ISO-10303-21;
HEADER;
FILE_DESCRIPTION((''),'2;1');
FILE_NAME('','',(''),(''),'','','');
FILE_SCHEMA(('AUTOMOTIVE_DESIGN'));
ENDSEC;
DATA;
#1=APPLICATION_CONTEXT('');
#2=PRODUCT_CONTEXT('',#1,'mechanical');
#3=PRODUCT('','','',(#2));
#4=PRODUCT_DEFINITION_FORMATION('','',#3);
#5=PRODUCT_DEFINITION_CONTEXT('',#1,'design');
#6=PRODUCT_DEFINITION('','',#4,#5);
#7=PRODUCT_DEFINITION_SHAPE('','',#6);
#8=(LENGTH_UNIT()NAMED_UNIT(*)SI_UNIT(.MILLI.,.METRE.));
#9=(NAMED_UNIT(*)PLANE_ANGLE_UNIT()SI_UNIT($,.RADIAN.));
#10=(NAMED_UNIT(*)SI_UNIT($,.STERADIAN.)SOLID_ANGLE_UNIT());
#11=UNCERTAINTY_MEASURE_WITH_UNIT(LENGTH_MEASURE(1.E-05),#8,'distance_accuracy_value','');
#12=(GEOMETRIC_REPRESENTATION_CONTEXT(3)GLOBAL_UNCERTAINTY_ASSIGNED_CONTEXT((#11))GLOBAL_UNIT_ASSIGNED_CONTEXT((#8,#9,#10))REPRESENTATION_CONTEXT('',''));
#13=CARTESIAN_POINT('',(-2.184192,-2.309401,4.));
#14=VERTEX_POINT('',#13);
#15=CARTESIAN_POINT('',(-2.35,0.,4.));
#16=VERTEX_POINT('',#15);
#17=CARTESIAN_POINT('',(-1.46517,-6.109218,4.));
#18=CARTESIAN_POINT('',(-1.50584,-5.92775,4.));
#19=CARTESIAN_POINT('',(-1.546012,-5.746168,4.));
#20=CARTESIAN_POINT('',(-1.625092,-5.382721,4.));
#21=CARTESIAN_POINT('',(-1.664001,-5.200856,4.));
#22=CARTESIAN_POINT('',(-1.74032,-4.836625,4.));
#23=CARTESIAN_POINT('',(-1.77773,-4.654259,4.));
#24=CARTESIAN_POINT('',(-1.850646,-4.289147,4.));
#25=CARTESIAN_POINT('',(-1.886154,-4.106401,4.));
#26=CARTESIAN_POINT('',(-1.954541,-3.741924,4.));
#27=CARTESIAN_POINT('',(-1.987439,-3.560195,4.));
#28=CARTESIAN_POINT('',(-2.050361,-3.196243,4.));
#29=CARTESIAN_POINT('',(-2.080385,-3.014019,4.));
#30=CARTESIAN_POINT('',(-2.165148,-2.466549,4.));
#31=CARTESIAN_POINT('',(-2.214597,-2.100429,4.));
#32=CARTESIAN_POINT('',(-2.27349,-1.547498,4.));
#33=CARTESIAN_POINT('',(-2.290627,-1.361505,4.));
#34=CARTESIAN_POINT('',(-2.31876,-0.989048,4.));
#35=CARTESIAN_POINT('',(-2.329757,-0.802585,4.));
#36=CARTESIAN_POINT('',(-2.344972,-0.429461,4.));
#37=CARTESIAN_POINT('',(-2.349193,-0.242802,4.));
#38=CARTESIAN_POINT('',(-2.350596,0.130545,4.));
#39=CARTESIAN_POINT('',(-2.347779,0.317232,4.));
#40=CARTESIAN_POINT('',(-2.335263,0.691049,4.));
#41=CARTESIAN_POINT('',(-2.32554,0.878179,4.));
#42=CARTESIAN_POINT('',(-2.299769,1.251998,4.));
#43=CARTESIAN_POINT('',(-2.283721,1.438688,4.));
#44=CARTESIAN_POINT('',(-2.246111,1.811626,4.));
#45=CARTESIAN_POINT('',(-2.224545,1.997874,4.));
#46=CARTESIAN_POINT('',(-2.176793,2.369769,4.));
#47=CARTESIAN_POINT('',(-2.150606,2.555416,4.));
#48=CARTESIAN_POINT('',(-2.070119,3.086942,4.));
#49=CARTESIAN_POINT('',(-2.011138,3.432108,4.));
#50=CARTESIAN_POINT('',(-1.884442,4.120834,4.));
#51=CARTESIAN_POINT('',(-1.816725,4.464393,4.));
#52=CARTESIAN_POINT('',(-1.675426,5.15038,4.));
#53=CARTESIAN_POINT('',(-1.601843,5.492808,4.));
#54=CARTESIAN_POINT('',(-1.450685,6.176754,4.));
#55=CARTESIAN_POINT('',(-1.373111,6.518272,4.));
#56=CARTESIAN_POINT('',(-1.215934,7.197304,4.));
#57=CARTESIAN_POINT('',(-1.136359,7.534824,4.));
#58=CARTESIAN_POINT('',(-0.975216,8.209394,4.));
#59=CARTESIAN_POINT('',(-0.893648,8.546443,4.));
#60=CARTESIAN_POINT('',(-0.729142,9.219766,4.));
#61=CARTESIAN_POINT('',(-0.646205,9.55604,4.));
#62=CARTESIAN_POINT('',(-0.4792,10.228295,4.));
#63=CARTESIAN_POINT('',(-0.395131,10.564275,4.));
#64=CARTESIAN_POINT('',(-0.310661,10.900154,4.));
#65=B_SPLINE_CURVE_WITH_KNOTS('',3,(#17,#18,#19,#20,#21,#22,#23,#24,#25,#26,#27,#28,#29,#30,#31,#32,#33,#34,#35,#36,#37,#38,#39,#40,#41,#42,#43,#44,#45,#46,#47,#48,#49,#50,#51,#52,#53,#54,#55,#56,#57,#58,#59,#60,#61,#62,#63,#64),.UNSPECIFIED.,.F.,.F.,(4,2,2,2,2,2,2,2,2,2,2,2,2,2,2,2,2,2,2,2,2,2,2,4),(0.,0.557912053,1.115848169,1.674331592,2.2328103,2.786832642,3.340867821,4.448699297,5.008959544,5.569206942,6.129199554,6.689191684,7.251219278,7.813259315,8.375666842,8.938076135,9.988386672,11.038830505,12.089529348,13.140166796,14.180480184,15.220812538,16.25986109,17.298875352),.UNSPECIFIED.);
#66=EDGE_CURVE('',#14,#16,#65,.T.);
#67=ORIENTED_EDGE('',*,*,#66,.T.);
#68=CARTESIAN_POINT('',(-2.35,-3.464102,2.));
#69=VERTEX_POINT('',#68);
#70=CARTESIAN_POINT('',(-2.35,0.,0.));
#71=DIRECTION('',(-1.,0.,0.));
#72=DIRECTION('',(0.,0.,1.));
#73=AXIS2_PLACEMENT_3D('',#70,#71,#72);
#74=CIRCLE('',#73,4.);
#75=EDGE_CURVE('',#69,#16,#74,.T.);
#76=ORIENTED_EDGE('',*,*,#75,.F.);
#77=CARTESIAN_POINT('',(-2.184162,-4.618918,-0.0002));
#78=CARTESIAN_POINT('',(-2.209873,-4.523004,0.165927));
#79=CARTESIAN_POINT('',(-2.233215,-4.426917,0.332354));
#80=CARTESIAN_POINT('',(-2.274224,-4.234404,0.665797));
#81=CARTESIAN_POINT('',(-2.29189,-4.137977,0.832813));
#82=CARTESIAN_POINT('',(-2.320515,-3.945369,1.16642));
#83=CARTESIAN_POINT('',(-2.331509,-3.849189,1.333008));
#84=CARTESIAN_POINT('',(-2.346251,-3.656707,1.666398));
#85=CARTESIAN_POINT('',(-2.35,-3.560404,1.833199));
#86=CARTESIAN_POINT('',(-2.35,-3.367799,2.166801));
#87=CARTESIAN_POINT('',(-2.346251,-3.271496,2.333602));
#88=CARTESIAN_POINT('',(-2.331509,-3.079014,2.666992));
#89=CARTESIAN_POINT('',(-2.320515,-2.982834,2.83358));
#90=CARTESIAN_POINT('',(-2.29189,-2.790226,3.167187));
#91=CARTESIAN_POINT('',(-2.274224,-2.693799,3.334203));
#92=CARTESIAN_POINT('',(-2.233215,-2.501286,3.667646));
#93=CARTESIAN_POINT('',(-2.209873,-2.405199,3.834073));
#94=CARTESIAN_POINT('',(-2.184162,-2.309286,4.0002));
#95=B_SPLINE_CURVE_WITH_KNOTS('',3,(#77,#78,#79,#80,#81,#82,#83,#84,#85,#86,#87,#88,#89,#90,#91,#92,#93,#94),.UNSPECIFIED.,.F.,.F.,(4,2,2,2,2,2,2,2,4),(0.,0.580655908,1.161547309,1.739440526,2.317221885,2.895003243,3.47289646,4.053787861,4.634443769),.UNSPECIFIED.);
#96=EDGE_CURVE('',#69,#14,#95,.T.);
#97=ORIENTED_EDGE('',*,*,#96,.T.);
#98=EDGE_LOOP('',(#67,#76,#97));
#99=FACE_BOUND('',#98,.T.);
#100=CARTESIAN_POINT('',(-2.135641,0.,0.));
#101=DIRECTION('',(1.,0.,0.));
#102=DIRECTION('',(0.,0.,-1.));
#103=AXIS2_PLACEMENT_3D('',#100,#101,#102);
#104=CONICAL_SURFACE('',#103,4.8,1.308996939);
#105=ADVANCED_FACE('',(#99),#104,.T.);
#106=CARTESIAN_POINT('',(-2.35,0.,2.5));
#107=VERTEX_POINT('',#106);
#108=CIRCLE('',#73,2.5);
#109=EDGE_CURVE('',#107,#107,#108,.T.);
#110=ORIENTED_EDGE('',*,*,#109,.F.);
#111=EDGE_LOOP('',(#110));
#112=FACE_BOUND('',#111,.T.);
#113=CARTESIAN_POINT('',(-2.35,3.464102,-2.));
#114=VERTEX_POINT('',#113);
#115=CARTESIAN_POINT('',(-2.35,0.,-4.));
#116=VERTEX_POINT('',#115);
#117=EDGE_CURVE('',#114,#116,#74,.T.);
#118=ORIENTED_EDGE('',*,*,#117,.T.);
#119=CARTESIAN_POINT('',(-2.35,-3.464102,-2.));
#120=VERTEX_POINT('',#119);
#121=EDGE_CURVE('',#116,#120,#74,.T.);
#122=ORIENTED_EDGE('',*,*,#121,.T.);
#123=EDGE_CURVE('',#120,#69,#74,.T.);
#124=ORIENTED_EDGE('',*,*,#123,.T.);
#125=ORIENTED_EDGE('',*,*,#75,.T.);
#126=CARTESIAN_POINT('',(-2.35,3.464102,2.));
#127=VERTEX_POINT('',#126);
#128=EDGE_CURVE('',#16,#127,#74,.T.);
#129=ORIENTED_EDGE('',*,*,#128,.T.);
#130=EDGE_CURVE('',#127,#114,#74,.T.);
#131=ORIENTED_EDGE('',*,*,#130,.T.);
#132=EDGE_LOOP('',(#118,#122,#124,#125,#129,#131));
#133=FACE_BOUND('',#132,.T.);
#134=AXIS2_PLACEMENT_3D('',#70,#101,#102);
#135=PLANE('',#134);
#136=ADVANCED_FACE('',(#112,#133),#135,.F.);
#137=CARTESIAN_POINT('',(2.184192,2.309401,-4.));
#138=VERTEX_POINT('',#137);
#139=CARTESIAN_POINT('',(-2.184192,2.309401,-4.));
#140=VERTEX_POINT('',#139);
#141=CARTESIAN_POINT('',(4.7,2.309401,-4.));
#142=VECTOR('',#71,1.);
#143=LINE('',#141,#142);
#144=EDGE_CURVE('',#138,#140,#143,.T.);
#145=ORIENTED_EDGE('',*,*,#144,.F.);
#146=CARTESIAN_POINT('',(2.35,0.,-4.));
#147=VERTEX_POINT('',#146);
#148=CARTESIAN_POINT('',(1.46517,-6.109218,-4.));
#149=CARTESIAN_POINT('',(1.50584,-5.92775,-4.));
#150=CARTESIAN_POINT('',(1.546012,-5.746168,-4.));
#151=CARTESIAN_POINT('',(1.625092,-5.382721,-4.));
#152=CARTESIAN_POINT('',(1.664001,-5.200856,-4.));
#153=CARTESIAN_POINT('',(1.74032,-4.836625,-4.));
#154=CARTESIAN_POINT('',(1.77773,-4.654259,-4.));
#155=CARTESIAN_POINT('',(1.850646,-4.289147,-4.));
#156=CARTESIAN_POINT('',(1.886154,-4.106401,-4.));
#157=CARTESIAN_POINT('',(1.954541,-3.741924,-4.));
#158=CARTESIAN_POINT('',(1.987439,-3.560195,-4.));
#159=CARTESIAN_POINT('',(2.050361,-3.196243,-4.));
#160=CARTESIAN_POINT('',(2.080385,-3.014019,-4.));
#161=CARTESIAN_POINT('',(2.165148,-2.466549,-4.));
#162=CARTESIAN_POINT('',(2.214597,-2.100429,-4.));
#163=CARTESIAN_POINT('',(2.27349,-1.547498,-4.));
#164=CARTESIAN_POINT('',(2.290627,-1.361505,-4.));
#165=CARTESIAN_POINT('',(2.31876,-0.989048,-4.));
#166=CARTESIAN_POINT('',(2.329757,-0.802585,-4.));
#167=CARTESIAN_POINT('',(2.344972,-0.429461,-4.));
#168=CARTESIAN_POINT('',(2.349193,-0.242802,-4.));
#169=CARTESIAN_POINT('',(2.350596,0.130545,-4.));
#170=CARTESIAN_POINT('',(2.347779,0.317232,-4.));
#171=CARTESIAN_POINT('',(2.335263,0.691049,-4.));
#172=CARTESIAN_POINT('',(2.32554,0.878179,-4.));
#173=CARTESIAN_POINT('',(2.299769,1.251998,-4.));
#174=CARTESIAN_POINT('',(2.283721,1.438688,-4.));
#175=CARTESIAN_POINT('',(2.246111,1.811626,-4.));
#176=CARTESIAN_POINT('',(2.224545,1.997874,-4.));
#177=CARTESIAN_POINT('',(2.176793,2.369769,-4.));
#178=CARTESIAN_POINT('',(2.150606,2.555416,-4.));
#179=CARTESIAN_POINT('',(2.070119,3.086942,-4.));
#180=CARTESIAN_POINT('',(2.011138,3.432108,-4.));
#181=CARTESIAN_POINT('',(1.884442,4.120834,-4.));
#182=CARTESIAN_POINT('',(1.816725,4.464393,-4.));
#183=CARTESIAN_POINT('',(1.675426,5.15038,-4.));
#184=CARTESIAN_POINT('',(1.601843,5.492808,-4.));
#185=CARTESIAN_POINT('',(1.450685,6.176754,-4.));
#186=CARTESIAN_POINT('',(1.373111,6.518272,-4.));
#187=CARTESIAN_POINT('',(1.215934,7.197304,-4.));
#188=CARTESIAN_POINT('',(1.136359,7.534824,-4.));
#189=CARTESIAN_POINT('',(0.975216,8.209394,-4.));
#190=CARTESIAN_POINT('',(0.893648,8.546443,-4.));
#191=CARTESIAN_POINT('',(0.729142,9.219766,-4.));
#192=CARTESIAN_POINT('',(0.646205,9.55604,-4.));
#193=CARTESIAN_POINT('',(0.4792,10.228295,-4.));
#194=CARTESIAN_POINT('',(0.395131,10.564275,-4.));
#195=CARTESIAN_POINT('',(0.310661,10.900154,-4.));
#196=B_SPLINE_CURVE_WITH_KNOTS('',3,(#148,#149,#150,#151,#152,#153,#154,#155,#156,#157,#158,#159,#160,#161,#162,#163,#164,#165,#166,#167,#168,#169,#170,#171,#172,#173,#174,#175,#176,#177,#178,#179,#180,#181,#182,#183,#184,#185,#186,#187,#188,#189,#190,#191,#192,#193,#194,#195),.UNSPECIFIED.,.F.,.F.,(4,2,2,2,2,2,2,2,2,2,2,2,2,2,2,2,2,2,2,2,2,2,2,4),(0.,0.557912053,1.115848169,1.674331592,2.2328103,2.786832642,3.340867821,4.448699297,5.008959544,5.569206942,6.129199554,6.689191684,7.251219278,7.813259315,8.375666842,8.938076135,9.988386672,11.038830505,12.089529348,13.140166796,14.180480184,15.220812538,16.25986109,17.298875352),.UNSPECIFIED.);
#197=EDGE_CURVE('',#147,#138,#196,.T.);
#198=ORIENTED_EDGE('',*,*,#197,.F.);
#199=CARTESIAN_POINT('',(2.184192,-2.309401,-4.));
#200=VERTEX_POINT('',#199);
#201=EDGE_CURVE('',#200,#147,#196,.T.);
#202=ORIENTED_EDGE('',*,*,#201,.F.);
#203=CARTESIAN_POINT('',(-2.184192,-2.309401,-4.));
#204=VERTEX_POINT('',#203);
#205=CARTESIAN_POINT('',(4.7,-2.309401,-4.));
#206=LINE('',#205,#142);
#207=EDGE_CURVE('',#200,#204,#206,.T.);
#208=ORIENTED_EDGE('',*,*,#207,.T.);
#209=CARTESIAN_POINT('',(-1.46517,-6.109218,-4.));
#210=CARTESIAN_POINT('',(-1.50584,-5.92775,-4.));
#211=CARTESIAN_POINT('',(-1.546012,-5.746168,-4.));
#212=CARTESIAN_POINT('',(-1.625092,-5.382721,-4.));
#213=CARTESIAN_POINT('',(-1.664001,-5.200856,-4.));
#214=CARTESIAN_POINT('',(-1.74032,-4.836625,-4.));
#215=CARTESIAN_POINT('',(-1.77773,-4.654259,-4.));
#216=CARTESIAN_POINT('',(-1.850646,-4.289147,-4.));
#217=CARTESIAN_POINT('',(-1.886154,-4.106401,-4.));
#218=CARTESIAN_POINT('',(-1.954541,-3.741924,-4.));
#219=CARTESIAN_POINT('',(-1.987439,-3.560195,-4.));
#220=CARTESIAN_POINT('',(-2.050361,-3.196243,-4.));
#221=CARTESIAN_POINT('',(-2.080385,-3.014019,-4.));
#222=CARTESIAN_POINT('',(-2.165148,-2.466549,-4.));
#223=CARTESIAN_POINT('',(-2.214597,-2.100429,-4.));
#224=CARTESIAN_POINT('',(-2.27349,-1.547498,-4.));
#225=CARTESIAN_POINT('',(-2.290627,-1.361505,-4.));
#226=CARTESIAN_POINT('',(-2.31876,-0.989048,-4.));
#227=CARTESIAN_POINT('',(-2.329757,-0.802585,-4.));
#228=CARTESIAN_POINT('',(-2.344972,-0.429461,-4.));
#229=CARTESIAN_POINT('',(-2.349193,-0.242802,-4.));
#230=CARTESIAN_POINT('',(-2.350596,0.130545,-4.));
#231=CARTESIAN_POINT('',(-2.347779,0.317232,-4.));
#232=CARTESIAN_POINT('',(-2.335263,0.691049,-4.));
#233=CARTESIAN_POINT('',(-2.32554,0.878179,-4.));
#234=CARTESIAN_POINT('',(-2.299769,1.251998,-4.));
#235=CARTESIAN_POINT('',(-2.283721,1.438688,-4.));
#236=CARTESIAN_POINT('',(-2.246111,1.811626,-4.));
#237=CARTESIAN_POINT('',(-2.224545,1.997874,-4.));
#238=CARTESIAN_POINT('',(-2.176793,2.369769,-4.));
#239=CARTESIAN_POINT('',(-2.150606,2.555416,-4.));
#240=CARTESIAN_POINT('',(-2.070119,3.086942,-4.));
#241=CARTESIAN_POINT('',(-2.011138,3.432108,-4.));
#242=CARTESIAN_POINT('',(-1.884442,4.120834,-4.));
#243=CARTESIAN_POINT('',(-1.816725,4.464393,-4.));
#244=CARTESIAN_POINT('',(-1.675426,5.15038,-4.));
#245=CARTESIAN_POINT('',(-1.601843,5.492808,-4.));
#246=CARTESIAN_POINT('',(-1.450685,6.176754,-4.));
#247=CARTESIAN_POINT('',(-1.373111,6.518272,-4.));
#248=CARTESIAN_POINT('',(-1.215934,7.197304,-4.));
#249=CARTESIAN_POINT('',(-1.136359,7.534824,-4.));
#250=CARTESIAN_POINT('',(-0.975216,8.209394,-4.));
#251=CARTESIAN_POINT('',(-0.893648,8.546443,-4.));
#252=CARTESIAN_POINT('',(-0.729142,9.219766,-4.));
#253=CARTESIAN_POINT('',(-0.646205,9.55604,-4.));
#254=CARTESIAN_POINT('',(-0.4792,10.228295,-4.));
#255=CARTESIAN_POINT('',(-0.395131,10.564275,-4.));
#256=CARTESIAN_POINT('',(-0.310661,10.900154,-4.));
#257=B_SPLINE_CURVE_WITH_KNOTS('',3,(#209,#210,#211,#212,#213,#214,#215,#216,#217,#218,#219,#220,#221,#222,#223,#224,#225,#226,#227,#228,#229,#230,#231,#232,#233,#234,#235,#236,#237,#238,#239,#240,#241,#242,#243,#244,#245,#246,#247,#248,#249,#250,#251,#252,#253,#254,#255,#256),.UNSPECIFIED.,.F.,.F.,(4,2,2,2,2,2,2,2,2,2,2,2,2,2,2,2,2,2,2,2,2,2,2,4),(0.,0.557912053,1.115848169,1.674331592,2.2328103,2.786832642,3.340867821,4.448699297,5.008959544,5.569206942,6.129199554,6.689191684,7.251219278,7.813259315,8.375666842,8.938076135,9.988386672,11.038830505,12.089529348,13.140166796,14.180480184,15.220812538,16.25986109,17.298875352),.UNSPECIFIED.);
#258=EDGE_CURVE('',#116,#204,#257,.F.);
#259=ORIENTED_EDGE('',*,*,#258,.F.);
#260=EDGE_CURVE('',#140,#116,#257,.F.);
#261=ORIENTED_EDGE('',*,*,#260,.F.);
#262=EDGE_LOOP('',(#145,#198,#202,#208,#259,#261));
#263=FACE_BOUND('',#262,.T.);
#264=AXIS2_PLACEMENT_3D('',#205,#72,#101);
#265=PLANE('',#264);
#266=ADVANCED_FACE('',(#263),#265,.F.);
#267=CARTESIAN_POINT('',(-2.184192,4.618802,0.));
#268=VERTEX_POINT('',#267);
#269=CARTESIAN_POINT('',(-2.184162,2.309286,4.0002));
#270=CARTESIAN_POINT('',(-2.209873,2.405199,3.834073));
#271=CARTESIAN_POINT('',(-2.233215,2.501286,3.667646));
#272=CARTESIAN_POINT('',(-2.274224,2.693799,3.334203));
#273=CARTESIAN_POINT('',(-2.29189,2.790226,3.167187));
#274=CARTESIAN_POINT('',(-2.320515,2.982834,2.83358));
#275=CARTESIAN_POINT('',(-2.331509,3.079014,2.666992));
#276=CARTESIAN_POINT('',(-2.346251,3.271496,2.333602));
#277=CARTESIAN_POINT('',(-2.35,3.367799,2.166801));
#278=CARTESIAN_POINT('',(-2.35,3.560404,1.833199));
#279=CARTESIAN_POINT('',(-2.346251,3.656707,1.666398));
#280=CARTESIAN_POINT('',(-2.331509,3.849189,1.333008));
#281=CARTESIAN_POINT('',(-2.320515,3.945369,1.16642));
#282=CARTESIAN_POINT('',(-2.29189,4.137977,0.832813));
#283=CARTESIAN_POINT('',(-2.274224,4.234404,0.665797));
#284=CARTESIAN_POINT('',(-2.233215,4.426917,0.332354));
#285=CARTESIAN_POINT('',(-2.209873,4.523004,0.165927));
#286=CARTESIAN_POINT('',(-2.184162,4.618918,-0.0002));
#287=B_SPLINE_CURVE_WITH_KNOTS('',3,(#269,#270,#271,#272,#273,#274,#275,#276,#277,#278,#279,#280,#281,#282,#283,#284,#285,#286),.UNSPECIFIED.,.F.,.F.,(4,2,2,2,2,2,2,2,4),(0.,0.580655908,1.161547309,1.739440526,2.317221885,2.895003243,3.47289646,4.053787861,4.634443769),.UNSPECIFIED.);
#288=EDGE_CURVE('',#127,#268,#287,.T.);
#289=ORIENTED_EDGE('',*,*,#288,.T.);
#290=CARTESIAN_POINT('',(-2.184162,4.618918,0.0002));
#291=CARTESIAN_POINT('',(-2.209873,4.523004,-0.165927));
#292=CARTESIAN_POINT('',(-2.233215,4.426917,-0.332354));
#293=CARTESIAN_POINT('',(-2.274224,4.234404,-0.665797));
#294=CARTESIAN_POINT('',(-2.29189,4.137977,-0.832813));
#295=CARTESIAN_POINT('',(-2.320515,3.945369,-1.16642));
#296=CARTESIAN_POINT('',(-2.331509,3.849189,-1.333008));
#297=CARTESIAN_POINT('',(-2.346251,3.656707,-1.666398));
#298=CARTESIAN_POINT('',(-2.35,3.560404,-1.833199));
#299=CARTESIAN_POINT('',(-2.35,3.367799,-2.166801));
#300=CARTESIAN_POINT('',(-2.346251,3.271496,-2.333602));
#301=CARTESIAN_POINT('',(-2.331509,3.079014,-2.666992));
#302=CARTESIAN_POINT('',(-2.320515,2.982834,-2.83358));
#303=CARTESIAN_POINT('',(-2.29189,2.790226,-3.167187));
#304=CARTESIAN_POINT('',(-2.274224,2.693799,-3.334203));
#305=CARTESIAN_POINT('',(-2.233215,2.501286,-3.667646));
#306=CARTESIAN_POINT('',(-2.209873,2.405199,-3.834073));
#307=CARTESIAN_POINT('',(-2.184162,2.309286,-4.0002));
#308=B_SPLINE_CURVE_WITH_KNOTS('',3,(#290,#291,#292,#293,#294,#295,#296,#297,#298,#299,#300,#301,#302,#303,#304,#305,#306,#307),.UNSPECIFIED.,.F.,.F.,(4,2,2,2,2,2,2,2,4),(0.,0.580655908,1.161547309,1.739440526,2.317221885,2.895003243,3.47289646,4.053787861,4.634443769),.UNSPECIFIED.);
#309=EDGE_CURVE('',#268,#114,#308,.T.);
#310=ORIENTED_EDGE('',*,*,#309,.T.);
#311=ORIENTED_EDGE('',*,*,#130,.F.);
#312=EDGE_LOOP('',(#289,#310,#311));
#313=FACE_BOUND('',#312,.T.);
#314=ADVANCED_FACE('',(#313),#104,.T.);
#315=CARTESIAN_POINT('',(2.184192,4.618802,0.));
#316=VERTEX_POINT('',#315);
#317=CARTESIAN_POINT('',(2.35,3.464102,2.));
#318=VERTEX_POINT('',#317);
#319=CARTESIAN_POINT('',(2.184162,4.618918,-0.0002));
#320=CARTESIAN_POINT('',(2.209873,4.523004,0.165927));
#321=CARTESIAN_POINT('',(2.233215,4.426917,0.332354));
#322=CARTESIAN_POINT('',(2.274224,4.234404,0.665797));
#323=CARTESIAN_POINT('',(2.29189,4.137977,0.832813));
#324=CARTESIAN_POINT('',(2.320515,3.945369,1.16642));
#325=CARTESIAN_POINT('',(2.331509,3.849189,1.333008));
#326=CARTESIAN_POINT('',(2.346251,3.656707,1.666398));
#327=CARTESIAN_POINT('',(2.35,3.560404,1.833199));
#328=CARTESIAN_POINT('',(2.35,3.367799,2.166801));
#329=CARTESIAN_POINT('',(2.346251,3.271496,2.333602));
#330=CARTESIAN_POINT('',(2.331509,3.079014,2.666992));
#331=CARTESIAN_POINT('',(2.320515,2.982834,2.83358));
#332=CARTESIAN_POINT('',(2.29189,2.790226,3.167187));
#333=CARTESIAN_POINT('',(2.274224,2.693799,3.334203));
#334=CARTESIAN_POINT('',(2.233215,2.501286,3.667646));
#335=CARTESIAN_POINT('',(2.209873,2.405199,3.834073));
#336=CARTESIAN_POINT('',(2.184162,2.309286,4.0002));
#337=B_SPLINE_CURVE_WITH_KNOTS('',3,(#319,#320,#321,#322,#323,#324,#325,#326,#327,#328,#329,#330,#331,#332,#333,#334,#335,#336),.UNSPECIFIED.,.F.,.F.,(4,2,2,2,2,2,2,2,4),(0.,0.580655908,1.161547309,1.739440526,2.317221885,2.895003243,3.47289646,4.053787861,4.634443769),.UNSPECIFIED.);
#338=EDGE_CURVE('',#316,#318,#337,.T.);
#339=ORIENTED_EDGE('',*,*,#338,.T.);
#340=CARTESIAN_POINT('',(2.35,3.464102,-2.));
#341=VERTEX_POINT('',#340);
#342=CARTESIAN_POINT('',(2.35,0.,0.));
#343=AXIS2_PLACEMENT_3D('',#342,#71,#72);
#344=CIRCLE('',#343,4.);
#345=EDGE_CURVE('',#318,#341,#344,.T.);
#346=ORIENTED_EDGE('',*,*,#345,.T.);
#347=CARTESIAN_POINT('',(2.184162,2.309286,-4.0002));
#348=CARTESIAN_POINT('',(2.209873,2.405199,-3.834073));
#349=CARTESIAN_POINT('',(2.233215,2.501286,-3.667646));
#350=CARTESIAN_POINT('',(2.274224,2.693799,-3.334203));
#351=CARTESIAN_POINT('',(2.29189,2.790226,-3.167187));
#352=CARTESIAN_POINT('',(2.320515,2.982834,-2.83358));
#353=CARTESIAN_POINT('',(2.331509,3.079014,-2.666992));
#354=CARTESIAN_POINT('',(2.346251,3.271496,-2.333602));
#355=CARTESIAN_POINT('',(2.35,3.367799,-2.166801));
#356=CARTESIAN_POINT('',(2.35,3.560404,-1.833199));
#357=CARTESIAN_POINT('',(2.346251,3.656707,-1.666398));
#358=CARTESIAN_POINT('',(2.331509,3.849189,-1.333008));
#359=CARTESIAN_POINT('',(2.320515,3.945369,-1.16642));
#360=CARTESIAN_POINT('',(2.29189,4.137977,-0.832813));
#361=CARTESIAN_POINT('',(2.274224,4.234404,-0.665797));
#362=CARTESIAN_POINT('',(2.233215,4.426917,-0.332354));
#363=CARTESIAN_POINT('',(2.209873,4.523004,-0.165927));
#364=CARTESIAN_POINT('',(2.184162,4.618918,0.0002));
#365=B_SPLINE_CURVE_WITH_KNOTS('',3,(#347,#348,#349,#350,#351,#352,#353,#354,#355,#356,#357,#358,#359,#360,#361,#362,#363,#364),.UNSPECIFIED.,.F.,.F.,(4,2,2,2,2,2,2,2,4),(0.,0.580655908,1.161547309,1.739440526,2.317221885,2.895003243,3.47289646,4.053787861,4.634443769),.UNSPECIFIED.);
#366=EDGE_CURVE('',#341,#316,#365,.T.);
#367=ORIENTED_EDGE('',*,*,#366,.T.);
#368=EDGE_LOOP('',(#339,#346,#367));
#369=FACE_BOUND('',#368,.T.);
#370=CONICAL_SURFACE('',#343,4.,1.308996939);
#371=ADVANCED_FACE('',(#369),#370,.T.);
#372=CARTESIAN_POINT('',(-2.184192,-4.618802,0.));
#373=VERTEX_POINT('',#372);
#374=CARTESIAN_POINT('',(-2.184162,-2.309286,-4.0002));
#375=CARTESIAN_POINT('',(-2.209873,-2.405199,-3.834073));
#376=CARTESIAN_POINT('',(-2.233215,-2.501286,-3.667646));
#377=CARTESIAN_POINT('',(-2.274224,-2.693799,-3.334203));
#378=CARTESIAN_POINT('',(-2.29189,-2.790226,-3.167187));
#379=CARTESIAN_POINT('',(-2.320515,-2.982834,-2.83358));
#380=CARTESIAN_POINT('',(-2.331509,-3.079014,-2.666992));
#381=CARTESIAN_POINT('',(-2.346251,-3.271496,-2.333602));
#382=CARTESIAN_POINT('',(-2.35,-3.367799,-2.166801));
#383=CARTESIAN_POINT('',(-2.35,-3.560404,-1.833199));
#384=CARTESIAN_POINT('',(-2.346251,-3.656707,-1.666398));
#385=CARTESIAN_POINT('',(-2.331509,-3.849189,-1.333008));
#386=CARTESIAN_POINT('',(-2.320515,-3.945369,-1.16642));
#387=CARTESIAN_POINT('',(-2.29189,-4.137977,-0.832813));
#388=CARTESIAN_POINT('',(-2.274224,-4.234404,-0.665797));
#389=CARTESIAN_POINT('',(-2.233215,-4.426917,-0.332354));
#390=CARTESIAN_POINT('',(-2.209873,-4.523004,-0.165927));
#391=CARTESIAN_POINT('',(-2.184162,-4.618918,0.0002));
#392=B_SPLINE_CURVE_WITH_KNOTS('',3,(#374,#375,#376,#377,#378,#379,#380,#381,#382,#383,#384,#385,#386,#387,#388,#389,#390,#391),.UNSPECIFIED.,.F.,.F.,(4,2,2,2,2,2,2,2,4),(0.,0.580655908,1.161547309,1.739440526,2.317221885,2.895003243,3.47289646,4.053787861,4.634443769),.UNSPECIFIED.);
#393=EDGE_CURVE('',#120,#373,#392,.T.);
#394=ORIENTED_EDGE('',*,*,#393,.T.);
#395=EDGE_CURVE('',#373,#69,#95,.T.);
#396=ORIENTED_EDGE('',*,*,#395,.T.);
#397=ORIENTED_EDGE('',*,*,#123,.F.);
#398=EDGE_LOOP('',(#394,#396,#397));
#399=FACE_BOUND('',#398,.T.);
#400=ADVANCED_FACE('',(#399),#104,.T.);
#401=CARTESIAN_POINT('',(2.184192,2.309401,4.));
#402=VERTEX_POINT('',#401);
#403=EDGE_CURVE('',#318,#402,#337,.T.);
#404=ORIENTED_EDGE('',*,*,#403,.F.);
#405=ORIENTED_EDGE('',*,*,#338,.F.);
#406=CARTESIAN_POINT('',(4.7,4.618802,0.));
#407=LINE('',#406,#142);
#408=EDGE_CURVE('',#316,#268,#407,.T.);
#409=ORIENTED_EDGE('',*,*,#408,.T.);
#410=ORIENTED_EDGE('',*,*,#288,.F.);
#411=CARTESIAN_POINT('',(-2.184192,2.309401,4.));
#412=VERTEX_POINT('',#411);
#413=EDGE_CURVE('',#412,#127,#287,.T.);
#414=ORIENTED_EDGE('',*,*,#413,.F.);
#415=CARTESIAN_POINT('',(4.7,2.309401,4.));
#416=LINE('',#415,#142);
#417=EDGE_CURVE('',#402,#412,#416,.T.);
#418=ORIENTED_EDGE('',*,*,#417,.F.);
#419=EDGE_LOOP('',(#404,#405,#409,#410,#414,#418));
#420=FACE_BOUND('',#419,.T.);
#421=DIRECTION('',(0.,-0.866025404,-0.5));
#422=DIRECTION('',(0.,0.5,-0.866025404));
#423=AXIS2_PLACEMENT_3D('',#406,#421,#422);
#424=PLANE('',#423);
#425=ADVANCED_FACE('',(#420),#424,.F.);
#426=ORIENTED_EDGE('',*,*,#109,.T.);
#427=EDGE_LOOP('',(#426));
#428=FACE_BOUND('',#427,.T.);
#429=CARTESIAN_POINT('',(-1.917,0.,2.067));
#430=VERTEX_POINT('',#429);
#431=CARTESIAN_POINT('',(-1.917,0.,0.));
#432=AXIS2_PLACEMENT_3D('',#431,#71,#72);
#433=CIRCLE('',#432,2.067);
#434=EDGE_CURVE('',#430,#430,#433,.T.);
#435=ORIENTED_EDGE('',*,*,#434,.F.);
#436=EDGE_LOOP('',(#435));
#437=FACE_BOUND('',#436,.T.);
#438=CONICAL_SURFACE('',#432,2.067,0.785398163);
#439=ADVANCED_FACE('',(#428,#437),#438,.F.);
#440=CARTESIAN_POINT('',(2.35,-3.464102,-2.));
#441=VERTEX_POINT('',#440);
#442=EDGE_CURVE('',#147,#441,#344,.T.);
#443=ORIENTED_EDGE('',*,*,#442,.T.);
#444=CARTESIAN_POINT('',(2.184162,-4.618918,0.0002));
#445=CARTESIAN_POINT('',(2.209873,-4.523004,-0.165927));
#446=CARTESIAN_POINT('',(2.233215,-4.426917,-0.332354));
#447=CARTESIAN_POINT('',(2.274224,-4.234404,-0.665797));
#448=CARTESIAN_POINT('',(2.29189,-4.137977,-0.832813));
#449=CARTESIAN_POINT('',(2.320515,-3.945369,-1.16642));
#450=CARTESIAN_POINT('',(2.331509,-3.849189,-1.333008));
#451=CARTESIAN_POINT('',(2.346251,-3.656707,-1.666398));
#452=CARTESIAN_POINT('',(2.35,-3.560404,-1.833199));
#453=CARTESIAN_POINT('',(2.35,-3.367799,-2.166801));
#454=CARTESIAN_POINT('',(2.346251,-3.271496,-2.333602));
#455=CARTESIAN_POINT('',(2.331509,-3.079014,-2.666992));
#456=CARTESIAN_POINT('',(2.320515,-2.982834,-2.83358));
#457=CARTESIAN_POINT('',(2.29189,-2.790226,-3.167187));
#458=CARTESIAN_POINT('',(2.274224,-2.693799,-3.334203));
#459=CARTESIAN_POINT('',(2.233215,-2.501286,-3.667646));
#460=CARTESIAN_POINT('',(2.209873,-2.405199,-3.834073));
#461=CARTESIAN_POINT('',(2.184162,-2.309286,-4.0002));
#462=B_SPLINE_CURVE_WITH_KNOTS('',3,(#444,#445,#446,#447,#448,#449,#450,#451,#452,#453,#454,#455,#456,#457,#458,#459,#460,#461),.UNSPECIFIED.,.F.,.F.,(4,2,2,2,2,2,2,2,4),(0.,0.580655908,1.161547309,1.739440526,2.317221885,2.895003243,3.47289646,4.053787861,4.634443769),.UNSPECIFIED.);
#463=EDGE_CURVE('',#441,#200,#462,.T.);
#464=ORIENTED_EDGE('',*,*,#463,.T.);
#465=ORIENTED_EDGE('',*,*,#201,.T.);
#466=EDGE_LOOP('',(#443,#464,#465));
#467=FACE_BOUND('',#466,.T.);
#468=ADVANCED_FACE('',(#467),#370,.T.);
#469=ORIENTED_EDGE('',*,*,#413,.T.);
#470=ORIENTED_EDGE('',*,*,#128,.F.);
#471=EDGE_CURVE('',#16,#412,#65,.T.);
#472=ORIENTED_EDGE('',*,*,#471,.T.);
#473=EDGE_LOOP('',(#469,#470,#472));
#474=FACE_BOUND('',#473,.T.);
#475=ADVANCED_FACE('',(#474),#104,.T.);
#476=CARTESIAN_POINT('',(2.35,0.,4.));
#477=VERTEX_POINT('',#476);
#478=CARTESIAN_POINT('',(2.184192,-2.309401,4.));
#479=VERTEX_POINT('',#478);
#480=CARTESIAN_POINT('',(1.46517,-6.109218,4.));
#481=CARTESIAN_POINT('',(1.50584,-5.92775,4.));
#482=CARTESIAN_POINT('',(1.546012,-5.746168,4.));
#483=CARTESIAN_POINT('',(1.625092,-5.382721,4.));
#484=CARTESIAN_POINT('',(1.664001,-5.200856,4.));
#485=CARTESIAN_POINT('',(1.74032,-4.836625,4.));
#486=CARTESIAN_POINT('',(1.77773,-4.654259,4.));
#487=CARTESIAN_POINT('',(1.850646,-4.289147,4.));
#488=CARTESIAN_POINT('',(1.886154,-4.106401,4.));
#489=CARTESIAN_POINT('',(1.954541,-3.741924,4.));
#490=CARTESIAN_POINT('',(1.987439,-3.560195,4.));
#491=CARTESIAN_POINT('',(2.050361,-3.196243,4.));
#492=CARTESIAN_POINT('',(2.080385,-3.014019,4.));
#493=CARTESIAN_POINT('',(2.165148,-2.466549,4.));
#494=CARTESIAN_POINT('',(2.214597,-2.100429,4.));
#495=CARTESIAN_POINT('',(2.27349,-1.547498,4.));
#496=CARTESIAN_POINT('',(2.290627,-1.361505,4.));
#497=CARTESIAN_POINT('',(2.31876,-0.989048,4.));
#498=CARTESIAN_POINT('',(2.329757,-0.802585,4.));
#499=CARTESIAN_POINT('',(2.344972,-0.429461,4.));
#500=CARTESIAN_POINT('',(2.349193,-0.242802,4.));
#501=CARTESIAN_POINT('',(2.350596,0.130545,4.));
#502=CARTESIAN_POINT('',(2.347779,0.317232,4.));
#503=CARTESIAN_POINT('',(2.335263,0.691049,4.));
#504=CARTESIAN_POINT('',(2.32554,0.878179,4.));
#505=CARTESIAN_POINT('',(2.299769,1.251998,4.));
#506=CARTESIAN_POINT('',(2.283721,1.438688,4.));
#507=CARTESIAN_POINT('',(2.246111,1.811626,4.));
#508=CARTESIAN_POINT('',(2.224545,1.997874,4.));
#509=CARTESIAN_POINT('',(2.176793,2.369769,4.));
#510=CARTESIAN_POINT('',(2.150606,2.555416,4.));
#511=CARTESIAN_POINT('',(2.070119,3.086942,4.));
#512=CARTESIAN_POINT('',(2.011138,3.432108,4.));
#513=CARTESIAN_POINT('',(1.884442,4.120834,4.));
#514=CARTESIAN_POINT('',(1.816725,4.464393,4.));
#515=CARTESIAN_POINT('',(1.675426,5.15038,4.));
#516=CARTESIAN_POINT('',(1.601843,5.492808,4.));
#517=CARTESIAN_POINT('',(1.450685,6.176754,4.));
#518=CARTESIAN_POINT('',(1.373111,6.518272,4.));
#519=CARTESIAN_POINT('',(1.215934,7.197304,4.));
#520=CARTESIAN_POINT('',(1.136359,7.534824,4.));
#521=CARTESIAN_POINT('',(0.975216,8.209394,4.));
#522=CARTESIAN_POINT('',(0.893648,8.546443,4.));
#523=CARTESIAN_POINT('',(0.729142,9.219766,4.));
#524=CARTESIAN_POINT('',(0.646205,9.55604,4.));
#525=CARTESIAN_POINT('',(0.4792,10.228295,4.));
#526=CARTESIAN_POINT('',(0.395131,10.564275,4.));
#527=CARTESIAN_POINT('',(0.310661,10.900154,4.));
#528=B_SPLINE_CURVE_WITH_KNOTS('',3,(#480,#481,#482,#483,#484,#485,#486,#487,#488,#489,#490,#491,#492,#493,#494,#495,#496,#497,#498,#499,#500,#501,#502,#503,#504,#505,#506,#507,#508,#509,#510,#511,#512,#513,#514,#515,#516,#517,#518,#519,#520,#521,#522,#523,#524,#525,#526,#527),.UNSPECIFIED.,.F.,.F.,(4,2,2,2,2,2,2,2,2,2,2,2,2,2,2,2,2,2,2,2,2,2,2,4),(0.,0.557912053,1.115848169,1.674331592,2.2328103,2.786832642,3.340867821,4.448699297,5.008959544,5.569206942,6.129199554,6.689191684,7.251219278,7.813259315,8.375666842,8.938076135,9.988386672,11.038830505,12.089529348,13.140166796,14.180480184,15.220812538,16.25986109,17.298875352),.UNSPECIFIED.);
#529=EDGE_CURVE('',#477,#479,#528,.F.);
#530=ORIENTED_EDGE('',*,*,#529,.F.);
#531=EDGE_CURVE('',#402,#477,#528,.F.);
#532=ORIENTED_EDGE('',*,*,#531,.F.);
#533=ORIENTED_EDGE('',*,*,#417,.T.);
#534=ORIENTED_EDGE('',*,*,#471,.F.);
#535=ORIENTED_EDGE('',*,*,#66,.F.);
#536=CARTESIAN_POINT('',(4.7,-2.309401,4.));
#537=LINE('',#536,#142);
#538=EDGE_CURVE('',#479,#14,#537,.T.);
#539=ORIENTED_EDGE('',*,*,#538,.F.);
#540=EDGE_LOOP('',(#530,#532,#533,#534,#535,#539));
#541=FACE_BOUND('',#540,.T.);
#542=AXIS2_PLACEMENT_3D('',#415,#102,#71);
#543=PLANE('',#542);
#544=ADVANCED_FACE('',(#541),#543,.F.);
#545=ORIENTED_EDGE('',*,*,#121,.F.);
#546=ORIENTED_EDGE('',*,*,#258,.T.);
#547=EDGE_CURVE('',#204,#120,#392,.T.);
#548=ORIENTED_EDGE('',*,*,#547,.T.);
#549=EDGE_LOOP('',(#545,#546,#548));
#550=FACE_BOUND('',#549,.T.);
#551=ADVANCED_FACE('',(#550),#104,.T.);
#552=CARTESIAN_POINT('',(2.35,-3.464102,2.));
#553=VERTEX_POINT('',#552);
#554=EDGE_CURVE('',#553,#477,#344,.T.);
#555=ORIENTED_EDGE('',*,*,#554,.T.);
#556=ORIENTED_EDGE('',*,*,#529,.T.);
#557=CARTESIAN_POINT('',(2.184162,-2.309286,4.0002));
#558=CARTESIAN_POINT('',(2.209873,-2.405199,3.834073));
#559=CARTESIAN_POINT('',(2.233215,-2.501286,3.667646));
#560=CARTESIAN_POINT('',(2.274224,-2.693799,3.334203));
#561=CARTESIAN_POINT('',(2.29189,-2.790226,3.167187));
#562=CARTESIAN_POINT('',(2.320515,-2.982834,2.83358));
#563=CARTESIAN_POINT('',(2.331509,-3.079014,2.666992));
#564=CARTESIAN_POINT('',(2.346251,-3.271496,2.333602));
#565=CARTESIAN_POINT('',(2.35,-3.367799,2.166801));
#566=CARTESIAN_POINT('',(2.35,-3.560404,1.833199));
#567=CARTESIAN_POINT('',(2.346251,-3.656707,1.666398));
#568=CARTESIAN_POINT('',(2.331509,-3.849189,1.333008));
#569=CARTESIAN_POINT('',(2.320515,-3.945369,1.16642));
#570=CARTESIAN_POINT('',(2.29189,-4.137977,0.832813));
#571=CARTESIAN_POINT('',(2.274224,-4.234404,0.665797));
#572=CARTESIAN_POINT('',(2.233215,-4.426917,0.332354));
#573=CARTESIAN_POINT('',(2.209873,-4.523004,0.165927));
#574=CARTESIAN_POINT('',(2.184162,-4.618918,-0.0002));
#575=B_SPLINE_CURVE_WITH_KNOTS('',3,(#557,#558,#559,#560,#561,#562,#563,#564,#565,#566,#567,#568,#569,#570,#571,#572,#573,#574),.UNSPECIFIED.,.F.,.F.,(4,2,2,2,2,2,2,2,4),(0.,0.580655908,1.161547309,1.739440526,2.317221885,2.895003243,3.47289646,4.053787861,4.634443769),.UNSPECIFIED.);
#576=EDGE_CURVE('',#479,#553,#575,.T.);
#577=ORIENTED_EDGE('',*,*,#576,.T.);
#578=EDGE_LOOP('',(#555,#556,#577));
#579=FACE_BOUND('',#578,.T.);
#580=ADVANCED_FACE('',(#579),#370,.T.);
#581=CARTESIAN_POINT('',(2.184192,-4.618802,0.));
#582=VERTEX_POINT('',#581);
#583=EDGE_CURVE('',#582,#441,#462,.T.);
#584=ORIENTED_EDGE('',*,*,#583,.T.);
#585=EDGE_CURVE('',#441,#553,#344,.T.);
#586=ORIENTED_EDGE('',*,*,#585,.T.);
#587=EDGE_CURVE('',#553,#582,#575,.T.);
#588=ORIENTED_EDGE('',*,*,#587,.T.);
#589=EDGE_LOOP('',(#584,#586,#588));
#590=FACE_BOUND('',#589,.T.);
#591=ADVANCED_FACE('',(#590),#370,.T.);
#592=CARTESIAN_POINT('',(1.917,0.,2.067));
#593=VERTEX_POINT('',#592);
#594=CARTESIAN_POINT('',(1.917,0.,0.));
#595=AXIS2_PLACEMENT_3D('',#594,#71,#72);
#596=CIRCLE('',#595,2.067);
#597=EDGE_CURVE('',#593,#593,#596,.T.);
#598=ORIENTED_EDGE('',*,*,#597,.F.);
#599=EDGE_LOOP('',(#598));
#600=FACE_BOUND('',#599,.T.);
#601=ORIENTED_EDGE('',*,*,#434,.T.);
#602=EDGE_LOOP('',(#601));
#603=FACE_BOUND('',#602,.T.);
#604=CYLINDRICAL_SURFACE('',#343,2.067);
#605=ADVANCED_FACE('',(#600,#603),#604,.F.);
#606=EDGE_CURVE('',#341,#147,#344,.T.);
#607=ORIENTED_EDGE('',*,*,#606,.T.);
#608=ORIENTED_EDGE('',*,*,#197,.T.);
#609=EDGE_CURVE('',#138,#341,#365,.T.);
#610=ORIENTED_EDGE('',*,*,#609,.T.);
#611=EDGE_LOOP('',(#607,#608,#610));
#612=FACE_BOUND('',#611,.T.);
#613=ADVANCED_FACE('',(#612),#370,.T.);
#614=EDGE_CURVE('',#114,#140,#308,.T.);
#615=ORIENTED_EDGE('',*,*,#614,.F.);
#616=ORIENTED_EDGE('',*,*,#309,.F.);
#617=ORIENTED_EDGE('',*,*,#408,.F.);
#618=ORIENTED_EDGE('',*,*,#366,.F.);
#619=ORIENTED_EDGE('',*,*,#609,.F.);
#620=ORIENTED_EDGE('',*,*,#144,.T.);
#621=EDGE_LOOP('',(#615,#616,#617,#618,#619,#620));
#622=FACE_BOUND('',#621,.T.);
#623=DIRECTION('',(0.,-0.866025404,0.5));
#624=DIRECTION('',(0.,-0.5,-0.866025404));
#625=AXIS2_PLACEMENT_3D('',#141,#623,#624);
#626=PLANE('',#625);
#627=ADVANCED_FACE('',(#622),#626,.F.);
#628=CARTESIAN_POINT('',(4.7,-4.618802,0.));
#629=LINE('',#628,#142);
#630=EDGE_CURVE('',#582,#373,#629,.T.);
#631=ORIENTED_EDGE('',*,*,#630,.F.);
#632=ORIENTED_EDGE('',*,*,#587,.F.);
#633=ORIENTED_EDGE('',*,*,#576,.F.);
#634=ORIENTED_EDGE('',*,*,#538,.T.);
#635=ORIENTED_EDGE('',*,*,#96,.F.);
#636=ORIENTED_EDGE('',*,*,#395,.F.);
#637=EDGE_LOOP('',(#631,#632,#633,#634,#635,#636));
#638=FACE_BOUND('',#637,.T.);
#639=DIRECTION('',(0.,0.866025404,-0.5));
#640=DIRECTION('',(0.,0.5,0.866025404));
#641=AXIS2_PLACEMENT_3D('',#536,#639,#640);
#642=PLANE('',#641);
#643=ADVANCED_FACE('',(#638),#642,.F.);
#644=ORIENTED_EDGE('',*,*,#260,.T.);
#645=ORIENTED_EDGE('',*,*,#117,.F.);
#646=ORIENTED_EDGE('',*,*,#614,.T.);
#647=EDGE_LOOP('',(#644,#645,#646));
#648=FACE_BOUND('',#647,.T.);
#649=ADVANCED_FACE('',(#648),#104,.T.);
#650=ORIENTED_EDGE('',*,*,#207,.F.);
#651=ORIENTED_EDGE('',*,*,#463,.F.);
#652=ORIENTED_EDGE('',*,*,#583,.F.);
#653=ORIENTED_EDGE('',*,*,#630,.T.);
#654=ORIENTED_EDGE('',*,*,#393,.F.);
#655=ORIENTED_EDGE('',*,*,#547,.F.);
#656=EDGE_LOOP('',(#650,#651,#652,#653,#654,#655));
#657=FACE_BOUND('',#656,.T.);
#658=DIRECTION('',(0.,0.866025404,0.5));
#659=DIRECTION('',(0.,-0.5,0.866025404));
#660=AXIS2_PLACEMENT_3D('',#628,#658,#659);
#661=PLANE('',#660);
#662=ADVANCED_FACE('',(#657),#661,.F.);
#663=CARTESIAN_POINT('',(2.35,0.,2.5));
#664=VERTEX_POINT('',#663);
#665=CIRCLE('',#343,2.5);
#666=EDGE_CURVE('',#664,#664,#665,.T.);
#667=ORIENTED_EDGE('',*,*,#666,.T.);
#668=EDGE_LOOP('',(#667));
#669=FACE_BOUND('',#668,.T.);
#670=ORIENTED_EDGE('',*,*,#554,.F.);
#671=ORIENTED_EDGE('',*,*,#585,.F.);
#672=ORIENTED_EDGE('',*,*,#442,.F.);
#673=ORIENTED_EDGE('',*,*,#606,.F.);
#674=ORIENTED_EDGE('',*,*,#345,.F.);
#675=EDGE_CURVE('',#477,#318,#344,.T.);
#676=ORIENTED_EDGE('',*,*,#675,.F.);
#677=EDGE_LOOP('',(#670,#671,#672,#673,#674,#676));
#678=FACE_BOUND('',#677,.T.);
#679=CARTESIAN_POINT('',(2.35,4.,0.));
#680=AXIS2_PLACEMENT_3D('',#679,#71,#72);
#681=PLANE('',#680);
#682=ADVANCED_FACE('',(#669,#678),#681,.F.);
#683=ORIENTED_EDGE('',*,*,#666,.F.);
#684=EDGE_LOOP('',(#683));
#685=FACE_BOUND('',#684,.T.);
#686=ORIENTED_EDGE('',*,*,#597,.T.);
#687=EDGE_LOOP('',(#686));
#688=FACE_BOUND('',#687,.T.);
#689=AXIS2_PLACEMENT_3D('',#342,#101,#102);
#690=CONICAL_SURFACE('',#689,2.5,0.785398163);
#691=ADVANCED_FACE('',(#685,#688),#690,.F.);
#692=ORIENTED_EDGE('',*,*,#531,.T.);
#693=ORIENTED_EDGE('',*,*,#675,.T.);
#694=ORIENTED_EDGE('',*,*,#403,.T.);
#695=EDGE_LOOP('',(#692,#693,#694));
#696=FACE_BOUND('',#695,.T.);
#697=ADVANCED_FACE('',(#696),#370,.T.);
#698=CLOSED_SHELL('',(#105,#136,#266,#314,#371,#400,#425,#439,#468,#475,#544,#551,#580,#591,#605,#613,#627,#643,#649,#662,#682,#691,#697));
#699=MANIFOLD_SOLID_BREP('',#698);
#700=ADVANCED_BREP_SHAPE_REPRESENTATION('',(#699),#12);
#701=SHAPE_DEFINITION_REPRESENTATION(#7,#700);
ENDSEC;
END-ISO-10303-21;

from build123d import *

# Parameters (mm, degrees)
SKETCH3_W               = 16
SKETCH3_H               = 16
CUT_EXTRUDE1_DEPTH      = 4.7
CUT_EXTRUDE1_DEPTH_BACK = 4.7


with BuildPart() as part:
    # Sketch1 → Revolve1 (revolve)
    with BuildSketch(Plane.XY):
        Polygon((-2.35, 0), (-2.35, 4), (-2.135640646, 4.8), (2.135640646, 4.8), (2.35, 4), (2.35, 0), align=None)
    revolve(axis=Axis((2.35, 0, 0), (-1, 0, 0)))

    # Sketch2 → Cut-Revolve1 (revolve, cut)
    with BuildSketch(Plane.XY):
        Polygon((-2.35, 0), (-2.35, 2.5), (-1.917, 2.067), (1.917, 2.067), (2.35, 2.5), (2.35, 0), align=None)
    revolve(axis=Axis((2.35, 0, 0), (-1, 0, 0)), mode=Mode.SUBTRACT)

    # Sketch3 → Cut-Extrude1 (cut, two sides)
    with BuildSketch(Plane(origin=(0, 0, 0), x_dir=(0, 0, -1), z_dir=(1, 0, 0))) as cut_extrude1_sk:
        Rectangle(SKETCH3_W, SKETCH3_H)
        Polygon((-4, 2.309401077), (-4, -2.309401077), (0, -4.618802154), (4, -2.309401077), (4, 2.309401077), (0, 4.618802154), align=None, mode=Mode.SUBTRACT)
    extrude(amount=CUT_EXTRUDE1_DEPTH, mode=Mode.SUBTRACT)
    extrude(cut_extrude1_sk.sketch, amount=-CUT_EXTRUDE1_DEPTH_BACK, mode=Mode.SUBTRACT)


solid = part.part
